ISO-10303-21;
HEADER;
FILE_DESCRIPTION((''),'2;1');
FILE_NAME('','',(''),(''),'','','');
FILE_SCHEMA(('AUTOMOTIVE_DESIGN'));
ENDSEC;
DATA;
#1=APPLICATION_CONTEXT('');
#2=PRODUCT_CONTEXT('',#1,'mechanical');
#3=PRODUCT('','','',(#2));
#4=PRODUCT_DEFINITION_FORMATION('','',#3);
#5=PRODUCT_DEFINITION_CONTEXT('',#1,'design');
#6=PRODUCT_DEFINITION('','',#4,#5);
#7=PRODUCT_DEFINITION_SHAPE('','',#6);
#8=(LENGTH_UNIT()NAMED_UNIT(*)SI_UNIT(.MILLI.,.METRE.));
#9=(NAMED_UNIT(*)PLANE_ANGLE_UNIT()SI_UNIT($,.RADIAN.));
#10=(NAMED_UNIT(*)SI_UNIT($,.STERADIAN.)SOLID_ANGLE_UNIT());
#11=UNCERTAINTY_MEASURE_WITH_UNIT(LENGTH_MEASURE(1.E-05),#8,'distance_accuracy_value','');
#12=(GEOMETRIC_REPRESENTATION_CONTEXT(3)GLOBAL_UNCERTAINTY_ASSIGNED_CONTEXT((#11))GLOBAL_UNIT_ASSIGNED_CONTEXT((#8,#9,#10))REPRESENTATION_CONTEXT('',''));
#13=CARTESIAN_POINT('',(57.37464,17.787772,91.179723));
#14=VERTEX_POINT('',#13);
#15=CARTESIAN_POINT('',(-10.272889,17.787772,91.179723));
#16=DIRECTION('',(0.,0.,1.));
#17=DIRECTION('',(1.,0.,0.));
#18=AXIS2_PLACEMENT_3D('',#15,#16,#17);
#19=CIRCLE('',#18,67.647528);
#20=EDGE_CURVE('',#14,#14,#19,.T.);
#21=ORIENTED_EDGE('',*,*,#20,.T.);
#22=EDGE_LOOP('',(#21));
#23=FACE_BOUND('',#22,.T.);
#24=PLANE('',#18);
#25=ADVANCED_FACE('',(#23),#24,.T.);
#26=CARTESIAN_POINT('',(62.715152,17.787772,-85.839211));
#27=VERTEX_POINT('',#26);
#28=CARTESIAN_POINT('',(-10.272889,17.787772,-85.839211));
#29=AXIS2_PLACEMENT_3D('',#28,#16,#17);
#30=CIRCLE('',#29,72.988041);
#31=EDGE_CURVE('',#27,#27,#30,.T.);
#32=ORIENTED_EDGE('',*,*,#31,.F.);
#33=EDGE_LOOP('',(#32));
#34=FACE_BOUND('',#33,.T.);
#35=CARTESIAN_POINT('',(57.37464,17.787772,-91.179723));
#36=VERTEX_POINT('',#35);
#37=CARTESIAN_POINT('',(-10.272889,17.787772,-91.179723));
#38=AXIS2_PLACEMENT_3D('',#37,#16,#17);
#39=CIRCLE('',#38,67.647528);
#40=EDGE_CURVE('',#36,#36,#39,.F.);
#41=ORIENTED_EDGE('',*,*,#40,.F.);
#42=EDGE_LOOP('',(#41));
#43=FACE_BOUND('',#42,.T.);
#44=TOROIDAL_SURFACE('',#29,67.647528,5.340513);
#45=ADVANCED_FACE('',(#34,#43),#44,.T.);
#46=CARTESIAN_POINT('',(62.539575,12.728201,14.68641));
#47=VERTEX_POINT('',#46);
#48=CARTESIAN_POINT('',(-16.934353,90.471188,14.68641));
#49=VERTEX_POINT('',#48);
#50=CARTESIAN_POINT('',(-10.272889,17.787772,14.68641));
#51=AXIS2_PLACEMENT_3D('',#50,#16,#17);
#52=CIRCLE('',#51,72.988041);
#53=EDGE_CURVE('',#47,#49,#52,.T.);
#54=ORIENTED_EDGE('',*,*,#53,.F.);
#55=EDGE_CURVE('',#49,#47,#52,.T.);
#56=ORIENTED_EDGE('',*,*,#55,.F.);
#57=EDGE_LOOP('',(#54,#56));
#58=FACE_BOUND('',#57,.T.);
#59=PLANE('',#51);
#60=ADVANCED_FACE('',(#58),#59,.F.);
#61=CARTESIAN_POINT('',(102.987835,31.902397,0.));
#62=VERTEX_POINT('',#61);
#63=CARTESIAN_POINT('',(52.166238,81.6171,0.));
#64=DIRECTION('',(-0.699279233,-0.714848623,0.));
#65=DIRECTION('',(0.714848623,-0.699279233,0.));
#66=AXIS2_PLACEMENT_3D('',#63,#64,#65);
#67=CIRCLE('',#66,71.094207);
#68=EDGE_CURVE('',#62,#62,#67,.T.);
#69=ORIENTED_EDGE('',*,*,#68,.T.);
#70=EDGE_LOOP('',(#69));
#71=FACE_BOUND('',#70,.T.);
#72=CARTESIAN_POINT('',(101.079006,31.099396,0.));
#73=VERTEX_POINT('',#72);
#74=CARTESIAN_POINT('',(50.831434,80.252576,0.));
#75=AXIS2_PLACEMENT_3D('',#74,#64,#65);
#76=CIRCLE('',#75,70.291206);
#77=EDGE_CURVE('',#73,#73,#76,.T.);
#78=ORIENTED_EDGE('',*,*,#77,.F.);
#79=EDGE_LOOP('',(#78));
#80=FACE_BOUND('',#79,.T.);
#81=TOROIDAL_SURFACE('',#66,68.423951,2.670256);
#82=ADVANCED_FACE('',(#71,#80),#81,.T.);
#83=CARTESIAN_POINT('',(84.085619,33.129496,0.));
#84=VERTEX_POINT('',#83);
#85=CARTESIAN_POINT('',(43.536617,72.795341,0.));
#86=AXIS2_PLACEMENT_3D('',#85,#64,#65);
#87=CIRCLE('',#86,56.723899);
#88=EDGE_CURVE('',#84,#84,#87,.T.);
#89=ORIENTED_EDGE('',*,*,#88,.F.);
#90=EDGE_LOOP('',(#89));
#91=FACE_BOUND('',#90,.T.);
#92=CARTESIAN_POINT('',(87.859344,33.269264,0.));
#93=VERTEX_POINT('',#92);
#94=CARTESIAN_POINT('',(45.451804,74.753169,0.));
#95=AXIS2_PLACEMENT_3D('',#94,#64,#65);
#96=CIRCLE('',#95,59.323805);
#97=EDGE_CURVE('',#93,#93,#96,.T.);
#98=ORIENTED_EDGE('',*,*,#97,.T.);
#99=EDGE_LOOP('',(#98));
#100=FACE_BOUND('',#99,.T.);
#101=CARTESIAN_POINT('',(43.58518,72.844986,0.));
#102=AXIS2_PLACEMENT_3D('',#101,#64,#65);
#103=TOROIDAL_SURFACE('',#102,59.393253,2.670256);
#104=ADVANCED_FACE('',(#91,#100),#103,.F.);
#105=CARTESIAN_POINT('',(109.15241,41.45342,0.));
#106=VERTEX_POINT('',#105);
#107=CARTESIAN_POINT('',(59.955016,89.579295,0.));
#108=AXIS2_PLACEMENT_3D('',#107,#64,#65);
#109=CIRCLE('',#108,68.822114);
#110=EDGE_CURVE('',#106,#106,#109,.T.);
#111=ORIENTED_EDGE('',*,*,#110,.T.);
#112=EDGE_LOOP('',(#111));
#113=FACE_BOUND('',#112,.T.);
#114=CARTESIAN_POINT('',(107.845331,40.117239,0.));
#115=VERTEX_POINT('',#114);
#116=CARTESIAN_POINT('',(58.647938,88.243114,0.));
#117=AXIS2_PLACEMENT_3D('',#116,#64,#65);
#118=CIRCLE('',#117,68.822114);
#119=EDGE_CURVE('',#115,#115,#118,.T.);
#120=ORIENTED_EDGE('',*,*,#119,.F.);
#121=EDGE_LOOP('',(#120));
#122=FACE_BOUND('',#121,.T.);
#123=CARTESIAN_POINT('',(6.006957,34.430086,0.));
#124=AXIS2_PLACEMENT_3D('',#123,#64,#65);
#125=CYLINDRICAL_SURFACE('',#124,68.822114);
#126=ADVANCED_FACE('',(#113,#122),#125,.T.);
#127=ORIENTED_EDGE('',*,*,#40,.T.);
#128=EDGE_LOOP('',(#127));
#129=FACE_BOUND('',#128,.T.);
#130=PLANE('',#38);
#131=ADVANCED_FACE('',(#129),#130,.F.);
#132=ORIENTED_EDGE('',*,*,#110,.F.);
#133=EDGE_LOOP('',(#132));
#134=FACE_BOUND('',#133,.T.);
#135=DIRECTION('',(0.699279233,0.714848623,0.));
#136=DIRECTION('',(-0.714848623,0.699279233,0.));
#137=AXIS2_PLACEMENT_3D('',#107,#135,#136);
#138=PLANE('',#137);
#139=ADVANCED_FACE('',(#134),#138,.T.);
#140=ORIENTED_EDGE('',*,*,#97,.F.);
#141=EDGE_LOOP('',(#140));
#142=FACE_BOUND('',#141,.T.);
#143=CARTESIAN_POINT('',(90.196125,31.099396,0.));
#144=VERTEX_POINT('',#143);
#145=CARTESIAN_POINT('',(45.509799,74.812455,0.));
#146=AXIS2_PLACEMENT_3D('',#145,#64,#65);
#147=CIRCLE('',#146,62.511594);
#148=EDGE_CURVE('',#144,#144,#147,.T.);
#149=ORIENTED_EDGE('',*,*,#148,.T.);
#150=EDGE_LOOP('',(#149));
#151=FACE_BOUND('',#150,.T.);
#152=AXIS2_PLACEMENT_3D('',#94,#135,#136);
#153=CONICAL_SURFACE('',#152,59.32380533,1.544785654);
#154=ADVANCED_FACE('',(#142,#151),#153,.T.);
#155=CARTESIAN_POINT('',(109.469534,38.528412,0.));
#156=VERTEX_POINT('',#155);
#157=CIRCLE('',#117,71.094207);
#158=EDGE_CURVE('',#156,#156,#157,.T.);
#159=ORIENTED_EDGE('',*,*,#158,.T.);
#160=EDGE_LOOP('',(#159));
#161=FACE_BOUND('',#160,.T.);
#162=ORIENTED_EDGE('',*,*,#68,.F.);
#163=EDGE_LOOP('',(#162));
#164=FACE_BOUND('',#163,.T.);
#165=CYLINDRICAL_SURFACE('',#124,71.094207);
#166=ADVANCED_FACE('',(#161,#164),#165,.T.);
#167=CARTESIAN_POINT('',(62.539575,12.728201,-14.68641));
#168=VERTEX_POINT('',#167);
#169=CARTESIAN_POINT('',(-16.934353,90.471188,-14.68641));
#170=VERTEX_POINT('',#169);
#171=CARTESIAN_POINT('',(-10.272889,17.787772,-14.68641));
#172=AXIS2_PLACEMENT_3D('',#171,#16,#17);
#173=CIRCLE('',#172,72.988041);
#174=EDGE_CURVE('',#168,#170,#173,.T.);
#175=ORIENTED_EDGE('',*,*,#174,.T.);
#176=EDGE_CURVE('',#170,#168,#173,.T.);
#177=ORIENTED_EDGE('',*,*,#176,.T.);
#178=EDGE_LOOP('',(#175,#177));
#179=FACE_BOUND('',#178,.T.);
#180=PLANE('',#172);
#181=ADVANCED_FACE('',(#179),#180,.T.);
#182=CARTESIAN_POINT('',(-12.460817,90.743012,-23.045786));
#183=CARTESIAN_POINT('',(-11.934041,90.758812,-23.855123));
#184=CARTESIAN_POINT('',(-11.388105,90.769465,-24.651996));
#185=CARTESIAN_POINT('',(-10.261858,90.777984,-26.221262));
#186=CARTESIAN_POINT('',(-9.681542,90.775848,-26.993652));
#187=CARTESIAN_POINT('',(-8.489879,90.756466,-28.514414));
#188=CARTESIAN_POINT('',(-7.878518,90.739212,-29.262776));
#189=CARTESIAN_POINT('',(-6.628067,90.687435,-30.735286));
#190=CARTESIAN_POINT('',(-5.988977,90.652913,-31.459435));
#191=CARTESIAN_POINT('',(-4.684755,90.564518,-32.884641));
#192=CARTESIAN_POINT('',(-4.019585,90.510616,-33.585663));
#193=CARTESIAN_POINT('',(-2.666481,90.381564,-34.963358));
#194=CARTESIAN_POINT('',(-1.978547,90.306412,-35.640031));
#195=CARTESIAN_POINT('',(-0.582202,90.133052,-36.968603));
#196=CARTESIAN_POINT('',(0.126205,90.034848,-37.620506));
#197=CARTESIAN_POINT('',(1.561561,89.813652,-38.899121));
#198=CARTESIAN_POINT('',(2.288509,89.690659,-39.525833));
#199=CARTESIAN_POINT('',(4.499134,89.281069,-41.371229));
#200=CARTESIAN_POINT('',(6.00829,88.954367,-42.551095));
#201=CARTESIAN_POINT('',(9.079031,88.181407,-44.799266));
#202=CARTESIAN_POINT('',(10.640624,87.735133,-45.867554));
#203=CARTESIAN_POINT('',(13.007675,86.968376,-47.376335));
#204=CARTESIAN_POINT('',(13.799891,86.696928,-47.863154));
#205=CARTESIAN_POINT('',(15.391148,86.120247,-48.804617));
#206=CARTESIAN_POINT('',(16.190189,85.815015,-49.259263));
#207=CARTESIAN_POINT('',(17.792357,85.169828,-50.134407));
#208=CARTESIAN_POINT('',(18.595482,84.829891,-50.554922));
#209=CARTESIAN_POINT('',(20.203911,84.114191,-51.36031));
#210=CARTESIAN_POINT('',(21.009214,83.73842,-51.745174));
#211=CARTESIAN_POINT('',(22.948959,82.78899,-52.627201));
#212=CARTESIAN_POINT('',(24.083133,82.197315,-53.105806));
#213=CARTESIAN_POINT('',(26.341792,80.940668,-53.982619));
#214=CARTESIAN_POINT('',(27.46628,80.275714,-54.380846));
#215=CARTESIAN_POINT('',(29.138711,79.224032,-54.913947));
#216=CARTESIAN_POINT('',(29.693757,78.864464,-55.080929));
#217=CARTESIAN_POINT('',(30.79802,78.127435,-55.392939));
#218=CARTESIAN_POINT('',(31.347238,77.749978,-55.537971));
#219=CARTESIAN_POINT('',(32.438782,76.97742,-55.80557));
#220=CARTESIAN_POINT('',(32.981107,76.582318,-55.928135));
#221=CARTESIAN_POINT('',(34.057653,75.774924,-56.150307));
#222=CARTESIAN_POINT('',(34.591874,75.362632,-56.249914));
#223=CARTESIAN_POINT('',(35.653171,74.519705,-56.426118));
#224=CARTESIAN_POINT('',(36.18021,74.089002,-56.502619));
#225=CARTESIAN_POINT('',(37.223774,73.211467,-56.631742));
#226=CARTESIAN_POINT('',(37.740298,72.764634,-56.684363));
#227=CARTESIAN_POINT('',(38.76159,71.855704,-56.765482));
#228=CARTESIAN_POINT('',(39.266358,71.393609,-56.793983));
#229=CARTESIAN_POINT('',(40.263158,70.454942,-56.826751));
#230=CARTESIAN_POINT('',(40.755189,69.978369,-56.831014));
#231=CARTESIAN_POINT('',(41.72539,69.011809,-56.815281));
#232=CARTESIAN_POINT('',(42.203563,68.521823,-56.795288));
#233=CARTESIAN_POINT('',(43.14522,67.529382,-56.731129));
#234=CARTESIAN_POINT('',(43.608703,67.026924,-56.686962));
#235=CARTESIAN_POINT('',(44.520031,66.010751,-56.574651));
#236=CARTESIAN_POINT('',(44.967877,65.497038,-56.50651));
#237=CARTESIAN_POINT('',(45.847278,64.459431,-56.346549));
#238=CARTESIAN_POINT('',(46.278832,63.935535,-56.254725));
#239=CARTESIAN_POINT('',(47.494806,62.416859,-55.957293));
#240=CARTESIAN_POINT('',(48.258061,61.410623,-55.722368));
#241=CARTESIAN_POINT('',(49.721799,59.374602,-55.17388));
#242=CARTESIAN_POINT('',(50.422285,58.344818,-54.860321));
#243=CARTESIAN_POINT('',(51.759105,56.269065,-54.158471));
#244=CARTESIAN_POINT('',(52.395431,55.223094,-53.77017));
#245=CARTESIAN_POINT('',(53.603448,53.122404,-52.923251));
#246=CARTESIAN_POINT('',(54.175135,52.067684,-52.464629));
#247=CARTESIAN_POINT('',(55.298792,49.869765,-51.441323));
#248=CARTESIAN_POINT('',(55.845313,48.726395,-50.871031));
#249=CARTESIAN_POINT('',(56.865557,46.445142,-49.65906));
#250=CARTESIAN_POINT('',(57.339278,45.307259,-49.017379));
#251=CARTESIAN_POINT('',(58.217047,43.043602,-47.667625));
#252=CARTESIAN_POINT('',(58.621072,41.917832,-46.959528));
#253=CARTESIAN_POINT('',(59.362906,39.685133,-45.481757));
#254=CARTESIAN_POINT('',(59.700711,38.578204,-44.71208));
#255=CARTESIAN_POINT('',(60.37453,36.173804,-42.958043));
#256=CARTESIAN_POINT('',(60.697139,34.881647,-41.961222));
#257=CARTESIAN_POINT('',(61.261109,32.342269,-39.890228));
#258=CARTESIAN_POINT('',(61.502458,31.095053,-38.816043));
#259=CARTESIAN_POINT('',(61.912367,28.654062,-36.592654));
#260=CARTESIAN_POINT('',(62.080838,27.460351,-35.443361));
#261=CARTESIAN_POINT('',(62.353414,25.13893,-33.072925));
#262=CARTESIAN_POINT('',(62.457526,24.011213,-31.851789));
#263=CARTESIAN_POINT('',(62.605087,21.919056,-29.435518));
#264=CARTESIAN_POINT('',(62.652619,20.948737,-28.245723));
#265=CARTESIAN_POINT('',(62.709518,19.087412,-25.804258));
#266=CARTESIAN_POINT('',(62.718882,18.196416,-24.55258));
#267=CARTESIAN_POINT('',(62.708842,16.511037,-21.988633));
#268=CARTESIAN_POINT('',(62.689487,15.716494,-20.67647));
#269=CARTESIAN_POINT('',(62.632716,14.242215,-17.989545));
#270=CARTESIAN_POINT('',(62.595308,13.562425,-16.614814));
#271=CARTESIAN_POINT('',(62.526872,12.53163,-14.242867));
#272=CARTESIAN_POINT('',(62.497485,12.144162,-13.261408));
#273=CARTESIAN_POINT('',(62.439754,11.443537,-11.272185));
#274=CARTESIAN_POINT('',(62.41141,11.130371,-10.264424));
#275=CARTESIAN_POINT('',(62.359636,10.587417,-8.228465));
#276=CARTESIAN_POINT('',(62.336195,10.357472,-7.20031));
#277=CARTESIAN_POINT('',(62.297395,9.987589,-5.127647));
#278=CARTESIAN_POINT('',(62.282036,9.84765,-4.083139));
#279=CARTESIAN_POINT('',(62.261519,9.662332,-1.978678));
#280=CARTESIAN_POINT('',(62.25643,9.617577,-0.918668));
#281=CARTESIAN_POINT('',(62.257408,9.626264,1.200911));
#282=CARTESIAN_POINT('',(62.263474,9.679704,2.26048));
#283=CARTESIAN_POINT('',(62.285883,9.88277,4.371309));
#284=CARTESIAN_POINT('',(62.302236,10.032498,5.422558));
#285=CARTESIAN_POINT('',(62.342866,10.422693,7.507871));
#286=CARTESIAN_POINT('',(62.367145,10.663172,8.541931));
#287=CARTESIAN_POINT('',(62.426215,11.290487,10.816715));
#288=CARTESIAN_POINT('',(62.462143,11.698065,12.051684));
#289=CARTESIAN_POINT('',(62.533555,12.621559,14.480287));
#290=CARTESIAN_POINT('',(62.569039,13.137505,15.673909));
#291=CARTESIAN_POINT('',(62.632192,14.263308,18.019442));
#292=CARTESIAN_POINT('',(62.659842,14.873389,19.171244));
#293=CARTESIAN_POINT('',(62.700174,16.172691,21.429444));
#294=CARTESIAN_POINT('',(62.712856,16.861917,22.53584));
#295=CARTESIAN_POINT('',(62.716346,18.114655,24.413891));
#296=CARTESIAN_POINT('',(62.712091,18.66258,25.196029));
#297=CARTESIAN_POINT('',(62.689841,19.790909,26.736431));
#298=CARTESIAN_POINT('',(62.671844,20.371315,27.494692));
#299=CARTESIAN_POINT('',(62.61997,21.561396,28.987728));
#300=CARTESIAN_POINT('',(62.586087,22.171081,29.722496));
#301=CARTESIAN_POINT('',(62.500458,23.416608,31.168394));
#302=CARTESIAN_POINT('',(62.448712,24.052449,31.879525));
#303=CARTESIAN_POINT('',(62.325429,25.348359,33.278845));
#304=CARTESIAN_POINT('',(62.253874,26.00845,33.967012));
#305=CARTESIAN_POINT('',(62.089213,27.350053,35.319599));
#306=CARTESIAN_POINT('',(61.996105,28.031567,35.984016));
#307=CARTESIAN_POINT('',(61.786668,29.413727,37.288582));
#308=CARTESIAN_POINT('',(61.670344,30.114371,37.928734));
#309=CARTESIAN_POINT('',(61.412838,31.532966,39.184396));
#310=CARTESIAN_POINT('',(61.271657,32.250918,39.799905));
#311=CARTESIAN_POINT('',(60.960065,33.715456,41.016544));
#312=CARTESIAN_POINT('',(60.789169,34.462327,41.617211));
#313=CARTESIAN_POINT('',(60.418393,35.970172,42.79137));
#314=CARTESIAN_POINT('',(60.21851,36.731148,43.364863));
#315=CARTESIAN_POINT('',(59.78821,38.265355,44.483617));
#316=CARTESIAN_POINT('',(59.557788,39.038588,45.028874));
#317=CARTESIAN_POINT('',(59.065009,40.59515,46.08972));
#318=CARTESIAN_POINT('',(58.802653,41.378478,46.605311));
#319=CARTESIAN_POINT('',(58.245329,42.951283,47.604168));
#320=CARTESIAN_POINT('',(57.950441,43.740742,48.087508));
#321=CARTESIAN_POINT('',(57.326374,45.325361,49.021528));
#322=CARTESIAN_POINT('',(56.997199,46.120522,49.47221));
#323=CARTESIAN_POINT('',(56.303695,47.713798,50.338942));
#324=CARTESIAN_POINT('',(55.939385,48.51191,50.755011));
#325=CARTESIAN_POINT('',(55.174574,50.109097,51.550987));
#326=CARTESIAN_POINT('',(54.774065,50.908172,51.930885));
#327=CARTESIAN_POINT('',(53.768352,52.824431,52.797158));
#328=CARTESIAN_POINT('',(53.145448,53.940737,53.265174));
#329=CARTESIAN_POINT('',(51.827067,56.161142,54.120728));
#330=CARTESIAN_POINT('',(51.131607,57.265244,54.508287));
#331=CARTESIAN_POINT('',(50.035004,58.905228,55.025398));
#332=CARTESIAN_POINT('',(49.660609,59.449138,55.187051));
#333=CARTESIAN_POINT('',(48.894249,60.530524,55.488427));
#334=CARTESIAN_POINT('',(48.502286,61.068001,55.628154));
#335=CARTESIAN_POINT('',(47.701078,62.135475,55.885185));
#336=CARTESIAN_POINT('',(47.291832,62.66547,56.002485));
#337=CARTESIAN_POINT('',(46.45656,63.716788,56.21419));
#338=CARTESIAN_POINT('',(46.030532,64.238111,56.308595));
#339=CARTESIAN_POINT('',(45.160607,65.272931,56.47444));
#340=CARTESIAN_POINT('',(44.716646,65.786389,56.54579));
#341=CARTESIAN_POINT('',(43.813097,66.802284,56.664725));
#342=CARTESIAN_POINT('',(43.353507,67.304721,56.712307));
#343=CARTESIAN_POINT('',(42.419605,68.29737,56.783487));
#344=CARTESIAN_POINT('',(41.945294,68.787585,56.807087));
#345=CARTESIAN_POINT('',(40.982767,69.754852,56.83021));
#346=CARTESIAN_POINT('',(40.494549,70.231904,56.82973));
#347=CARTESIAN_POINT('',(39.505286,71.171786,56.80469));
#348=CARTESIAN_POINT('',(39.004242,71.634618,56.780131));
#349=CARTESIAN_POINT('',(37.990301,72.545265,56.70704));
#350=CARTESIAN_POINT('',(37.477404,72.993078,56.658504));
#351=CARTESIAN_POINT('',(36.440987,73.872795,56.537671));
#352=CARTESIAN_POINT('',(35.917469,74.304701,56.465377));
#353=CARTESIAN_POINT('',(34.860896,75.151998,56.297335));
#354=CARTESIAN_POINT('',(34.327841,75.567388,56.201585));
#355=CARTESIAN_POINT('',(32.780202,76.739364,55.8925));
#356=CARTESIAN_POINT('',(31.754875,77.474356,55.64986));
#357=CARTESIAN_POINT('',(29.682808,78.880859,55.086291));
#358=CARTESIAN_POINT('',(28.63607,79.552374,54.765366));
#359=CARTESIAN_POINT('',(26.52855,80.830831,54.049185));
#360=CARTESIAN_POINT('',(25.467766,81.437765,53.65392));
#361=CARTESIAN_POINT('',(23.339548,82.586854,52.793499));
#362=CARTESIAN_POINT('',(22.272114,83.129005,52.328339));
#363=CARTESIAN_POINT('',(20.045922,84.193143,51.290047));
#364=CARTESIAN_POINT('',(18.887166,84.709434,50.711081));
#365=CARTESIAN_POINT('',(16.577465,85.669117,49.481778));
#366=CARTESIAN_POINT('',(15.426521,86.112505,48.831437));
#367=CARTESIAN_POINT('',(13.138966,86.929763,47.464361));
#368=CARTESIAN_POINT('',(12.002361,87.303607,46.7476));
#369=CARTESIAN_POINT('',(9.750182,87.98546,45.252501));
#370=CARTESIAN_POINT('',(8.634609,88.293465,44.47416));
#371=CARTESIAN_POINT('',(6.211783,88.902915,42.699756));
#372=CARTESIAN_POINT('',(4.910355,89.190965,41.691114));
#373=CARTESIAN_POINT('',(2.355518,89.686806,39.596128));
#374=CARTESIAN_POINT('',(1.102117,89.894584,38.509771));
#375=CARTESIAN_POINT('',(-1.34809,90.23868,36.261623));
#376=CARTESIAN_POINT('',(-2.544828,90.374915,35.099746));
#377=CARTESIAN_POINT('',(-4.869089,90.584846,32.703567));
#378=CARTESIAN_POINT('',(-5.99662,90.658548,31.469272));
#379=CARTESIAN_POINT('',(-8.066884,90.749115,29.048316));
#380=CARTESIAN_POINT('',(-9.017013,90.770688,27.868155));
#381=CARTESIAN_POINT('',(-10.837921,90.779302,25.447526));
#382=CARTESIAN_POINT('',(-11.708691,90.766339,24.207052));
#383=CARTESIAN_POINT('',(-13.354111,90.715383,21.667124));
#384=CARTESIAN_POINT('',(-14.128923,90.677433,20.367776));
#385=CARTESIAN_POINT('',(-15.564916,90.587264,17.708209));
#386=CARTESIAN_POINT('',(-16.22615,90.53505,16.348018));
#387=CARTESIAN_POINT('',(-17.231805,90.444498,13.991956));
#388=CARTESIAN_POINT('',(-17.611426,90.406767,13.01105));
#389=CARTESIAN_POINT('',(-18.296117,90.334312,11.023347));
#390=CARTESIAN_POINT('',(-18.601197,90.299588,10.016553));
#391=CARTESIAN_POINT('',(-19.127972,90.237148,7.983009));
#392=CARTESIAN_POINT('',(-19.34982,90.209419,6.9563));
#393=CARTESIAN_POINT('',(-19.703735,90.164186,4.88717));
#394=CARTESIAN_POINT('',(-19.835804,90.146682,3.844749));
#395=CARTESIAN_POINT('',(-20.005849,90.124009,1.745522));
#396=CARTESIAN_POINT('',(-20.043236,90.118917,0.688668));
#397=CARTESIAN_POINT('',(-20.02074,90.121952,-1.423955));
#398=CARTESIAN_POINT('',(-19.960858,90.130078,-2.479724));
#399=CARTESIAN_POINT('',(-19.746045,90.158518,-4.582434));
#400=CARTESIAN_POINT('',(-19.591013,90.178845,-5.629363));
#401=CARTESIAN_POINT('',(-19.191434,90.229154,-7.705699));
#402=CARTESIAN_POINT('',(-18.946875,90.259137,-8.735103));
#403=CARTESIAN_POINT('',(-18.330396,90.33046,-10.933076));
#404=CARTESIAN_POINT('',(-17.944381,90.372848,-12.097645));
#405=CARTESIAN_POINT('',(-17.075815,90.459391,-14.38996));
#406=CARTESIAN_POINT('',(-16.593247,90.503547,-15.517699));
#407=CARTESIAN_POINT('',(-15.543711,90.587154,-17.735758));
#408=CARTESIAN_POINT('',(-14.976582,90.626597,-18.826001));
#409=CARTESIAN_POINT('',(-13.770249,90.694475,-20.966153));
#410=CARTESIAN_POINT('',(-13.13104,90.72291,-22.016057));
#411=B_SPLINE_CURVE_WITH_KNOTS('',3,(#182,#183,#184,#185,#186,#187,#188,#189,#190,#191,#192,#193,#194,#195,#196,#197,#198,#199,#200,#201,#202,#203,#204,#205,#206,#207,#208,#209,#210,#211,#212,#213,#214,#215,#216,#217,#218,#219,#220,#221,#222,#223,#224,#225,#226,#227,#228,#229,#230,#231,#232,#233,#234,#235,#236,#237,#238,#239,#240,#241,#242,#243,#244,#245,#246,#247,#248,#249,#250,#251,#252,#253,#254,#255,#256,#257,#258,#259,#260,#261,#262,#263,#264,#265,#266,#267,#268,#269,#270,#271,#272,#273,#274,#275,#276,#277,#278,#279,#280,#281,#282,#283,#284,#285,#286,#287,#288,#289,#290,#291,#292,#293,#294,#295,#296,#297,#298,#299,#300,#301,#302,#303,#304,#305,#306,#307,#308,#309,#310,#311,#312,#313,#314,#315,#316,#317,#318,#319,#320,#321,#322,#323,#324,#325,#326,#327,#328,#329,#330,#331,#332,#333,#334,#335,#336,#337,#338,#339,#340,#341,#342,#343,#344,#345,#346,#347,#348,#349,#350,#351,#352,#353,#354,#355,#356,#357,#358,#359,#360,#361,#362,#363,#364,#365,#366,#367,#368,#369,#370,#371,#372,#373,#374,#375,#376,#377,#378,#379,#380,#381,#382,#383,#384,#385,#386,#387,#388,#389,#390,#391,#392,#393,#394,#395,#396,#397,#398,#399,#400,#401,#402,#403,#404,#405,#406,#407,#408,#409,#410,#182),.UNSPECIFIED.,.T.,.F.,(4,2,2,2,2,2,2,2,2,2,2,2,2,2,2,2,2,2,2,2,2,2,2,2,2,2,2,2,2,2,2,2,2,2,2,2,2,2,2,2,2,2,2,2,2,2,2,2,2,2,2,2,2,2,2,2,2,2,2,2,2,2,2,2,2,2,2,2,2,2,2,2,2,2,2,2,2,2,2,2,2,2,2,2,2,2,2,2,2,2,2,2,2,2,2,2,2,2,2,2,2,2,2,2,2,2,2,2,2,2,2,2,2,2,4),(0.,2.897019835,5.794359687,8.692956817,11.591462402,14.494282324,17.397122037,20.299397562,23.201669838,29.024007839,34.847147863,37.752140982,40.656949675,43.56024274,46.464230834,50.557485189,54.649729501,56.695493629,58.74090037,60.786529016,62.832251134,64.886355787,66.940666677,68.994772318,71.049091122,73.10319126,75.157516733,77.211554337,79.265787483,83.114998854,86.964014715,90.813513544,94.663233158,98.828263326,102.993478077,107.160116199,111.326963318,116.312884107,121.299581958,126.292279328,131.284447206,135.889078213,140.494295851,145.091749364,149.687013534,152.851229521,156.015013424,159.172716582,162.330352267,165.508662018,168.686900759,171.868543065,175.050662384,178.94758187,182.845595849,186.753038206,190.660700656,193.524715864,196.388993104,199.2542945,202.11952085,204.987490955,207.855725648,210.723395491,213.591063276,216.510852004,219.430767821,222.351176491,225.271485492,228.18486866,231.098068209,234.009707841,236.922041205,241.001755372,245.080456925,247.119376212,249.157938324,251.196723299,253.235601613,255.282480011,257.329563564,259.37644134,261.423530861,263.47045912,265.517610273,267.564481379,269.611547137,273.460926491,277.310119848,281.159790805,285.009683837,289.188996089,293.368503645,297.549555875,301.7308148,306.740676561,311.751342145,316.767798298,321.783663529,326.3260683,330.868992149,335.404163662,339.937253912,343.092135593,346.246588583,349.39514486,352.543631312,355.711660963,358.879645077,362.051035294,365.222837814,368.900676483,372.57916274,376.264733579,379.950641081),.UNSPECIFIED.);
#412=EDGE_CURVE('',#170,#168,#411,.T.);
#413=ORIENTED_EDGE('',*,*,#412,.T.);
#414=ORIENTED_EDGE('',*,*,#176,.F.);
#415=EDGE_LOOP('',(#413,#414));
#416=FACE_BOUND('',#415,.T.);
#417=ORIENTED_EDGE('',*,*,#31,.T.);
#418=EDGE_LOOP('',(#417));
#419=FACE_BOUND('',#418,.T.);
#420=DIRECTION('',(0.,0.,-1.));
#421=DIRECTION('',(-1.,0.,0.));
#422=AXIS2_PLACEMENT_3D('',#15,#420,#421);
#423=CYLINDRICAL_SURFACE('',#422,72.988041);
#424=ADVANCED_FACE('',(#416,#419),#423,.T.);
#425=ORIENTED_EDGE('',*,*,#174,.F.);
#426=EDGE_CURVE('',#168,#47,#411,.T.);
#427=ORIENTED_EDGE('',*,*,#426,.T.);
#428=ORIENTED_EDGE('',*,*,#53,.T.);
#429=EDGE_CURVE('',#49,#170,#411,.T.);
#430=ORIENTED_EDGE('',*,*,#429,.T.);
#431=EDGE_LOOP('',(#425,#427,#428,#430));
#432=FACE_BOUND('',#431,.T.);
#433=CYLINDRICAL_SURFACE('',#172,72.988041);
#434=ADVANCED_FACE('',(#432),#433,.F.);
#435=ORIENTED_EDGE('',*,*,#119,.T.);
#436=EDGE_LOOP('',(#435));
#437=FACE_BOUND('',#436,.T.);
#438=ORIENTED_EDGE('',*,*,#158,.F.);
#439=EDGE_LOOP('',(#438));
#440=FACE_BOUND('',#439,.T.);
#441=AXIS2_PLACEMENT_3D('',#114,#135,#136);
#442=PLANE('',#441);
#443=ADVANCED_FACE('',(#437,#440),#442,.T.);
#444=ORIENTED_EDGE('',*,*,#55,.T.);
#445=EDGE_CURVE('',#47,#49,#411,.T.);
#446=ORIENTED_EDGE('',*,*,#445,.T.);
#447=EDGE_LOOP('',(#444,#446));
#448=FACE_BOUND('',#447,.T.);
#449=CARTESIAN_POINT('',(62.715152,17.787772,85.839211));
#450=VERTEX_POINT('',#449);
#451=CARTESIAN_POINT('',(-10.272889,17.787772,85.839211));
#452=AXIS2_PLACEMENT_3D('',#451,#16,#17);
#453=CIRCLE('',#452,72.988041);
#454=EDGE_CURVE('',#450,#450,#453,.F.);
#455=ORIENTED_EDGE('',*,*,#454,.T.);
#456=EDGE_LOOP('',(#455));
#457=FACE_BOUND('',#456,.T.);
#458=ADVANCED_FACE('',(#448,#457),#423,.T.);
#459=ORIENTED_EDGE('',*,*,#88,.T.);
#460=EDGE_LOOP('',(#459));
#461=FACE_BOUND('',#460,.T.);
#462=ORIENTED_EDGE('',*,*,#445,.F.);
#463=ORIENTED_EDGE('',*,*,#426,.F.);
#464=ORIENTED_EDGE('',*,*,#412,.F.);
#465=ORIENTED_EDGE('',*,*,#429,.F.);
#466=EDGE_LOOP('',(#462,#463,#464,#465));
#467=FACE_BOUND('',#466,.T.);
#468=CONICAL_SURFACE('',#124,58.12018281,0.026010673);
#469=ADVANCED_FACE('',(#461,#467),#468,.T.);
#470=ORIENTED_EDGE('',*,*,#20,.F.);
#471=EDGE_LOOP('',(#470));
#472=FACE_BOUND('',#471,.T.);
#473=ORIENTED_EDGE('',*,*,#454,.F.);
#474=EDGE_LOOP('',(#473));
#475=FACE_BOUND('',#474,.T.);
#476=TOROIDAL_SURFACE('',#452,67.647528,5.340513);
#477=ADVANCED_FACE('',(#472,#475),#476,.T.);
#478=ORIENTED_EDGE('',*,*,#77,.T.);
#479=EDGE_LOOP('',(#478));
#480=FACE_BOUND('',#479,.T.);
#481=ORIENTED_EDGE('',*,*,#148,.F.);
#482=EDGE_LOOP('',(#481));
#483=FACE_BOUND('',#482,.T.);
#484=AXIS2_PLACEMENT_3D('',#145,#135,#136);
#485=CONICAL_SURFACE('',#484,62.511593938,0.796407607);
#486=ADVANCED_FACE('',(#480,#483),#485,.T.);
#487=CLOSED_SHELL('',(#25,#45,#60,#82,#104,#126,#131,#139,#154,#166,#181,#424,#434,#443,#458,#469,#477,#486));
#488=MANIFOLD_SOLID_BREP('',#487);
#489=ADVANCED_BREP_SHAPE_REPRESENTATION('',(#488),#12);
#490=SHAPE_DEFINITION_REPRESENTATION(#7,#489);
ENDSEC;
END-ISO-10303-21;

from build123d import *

# Parameters (mm, degrees)
SKETCH2_R           = 34.7138244
BOSS_EXTRUDE1_DEPTH = 43.3659661
FILLET1_R           = 2.54
SKETCH4_R           = 34.7138244
CUT_EXTRUDE1_DEPTH  = 6.985
SCALE1_SCALE        = 2.1025641


with BuildPart() as part:
    # Sketch2 → Boss-Extrude1 (new body, symmetric)
    with BuildSketch(Plane.XY):
        with Locations((-4.885886043, 8.460037767)):
            Circle(SKETCH2_R)
    extrude(amount=BOSS_EXTRUDE1_DEPTH, both=True)

    # Sketch3 → Revolve1 (revolve)
    with BuildSketch(Plane.XY):
        with BuildLine():
            Line((22.617188767, -2.954559536), (39.991940689, 15.756711766))
            ThreePointArc((39.991940689, 15.756711766), (40.875583615, 16.161668708), (41.78676132, 15.823186604))
            Line((41.78676132, 15.823186604), (42.898157249, 14.791176098))
            Line((42.898157249, 14.791176098), (48.074161234, 14.791176098))
            ThreePointArc((48.074161234, 14.791176098), (48.566620636, 14.890542194), (48.982018985, 15.173091472))
            Line((48.982018985, 15.173091472), (52.064778569, 18.324488421))
            Line((52.064778569, 18.324488421), (51.292291814, 19.080150428))
            Line((51.292291814, 19.080150428), (51.913951053, 19.715650854))
            Line((51.913951053, 19.715650854), (28.515190783, 42.604786571))
            Line((28.515190783, 42.604786571), (2.85696712, 16.37528486))
            Line((2.85696712, 16.37528486), (22.617188767, -2.954559536))
        make_face()
    revolve(axis=Axis((2.85696712, 16.37528486, 0), (0.699279233, 0.714848623, 0)))

    # Fillet1
    fillet1_edges = [part.edges().sort_by_distance(p)[0] for p in [
        (-39.599710443, 8.460037767, -43.3659661),
        (-39.599710443, 8.460037767, 43.3659661),
    ]]
    fillet(fillet1_edges, radius=FILLET1_R)

    # Sketch4 → Cut-Extrude1 (cut, symmetric)
    with BuildSketch(Plane.XY):
        with Locations((-4.885886043, 8.460037767)):
            Circle(SKETCH4_R)
    extrude(amount=CUT_EXTRUDE1_DEPTH, both=True, mode=Mode.SUBTRACT)


with BuildPart() as part_1:
    # Scale1: scaled about (0, 0, 0)
    add(part.part.scale(SCALE1_SCALE))


solid = part_1.part
